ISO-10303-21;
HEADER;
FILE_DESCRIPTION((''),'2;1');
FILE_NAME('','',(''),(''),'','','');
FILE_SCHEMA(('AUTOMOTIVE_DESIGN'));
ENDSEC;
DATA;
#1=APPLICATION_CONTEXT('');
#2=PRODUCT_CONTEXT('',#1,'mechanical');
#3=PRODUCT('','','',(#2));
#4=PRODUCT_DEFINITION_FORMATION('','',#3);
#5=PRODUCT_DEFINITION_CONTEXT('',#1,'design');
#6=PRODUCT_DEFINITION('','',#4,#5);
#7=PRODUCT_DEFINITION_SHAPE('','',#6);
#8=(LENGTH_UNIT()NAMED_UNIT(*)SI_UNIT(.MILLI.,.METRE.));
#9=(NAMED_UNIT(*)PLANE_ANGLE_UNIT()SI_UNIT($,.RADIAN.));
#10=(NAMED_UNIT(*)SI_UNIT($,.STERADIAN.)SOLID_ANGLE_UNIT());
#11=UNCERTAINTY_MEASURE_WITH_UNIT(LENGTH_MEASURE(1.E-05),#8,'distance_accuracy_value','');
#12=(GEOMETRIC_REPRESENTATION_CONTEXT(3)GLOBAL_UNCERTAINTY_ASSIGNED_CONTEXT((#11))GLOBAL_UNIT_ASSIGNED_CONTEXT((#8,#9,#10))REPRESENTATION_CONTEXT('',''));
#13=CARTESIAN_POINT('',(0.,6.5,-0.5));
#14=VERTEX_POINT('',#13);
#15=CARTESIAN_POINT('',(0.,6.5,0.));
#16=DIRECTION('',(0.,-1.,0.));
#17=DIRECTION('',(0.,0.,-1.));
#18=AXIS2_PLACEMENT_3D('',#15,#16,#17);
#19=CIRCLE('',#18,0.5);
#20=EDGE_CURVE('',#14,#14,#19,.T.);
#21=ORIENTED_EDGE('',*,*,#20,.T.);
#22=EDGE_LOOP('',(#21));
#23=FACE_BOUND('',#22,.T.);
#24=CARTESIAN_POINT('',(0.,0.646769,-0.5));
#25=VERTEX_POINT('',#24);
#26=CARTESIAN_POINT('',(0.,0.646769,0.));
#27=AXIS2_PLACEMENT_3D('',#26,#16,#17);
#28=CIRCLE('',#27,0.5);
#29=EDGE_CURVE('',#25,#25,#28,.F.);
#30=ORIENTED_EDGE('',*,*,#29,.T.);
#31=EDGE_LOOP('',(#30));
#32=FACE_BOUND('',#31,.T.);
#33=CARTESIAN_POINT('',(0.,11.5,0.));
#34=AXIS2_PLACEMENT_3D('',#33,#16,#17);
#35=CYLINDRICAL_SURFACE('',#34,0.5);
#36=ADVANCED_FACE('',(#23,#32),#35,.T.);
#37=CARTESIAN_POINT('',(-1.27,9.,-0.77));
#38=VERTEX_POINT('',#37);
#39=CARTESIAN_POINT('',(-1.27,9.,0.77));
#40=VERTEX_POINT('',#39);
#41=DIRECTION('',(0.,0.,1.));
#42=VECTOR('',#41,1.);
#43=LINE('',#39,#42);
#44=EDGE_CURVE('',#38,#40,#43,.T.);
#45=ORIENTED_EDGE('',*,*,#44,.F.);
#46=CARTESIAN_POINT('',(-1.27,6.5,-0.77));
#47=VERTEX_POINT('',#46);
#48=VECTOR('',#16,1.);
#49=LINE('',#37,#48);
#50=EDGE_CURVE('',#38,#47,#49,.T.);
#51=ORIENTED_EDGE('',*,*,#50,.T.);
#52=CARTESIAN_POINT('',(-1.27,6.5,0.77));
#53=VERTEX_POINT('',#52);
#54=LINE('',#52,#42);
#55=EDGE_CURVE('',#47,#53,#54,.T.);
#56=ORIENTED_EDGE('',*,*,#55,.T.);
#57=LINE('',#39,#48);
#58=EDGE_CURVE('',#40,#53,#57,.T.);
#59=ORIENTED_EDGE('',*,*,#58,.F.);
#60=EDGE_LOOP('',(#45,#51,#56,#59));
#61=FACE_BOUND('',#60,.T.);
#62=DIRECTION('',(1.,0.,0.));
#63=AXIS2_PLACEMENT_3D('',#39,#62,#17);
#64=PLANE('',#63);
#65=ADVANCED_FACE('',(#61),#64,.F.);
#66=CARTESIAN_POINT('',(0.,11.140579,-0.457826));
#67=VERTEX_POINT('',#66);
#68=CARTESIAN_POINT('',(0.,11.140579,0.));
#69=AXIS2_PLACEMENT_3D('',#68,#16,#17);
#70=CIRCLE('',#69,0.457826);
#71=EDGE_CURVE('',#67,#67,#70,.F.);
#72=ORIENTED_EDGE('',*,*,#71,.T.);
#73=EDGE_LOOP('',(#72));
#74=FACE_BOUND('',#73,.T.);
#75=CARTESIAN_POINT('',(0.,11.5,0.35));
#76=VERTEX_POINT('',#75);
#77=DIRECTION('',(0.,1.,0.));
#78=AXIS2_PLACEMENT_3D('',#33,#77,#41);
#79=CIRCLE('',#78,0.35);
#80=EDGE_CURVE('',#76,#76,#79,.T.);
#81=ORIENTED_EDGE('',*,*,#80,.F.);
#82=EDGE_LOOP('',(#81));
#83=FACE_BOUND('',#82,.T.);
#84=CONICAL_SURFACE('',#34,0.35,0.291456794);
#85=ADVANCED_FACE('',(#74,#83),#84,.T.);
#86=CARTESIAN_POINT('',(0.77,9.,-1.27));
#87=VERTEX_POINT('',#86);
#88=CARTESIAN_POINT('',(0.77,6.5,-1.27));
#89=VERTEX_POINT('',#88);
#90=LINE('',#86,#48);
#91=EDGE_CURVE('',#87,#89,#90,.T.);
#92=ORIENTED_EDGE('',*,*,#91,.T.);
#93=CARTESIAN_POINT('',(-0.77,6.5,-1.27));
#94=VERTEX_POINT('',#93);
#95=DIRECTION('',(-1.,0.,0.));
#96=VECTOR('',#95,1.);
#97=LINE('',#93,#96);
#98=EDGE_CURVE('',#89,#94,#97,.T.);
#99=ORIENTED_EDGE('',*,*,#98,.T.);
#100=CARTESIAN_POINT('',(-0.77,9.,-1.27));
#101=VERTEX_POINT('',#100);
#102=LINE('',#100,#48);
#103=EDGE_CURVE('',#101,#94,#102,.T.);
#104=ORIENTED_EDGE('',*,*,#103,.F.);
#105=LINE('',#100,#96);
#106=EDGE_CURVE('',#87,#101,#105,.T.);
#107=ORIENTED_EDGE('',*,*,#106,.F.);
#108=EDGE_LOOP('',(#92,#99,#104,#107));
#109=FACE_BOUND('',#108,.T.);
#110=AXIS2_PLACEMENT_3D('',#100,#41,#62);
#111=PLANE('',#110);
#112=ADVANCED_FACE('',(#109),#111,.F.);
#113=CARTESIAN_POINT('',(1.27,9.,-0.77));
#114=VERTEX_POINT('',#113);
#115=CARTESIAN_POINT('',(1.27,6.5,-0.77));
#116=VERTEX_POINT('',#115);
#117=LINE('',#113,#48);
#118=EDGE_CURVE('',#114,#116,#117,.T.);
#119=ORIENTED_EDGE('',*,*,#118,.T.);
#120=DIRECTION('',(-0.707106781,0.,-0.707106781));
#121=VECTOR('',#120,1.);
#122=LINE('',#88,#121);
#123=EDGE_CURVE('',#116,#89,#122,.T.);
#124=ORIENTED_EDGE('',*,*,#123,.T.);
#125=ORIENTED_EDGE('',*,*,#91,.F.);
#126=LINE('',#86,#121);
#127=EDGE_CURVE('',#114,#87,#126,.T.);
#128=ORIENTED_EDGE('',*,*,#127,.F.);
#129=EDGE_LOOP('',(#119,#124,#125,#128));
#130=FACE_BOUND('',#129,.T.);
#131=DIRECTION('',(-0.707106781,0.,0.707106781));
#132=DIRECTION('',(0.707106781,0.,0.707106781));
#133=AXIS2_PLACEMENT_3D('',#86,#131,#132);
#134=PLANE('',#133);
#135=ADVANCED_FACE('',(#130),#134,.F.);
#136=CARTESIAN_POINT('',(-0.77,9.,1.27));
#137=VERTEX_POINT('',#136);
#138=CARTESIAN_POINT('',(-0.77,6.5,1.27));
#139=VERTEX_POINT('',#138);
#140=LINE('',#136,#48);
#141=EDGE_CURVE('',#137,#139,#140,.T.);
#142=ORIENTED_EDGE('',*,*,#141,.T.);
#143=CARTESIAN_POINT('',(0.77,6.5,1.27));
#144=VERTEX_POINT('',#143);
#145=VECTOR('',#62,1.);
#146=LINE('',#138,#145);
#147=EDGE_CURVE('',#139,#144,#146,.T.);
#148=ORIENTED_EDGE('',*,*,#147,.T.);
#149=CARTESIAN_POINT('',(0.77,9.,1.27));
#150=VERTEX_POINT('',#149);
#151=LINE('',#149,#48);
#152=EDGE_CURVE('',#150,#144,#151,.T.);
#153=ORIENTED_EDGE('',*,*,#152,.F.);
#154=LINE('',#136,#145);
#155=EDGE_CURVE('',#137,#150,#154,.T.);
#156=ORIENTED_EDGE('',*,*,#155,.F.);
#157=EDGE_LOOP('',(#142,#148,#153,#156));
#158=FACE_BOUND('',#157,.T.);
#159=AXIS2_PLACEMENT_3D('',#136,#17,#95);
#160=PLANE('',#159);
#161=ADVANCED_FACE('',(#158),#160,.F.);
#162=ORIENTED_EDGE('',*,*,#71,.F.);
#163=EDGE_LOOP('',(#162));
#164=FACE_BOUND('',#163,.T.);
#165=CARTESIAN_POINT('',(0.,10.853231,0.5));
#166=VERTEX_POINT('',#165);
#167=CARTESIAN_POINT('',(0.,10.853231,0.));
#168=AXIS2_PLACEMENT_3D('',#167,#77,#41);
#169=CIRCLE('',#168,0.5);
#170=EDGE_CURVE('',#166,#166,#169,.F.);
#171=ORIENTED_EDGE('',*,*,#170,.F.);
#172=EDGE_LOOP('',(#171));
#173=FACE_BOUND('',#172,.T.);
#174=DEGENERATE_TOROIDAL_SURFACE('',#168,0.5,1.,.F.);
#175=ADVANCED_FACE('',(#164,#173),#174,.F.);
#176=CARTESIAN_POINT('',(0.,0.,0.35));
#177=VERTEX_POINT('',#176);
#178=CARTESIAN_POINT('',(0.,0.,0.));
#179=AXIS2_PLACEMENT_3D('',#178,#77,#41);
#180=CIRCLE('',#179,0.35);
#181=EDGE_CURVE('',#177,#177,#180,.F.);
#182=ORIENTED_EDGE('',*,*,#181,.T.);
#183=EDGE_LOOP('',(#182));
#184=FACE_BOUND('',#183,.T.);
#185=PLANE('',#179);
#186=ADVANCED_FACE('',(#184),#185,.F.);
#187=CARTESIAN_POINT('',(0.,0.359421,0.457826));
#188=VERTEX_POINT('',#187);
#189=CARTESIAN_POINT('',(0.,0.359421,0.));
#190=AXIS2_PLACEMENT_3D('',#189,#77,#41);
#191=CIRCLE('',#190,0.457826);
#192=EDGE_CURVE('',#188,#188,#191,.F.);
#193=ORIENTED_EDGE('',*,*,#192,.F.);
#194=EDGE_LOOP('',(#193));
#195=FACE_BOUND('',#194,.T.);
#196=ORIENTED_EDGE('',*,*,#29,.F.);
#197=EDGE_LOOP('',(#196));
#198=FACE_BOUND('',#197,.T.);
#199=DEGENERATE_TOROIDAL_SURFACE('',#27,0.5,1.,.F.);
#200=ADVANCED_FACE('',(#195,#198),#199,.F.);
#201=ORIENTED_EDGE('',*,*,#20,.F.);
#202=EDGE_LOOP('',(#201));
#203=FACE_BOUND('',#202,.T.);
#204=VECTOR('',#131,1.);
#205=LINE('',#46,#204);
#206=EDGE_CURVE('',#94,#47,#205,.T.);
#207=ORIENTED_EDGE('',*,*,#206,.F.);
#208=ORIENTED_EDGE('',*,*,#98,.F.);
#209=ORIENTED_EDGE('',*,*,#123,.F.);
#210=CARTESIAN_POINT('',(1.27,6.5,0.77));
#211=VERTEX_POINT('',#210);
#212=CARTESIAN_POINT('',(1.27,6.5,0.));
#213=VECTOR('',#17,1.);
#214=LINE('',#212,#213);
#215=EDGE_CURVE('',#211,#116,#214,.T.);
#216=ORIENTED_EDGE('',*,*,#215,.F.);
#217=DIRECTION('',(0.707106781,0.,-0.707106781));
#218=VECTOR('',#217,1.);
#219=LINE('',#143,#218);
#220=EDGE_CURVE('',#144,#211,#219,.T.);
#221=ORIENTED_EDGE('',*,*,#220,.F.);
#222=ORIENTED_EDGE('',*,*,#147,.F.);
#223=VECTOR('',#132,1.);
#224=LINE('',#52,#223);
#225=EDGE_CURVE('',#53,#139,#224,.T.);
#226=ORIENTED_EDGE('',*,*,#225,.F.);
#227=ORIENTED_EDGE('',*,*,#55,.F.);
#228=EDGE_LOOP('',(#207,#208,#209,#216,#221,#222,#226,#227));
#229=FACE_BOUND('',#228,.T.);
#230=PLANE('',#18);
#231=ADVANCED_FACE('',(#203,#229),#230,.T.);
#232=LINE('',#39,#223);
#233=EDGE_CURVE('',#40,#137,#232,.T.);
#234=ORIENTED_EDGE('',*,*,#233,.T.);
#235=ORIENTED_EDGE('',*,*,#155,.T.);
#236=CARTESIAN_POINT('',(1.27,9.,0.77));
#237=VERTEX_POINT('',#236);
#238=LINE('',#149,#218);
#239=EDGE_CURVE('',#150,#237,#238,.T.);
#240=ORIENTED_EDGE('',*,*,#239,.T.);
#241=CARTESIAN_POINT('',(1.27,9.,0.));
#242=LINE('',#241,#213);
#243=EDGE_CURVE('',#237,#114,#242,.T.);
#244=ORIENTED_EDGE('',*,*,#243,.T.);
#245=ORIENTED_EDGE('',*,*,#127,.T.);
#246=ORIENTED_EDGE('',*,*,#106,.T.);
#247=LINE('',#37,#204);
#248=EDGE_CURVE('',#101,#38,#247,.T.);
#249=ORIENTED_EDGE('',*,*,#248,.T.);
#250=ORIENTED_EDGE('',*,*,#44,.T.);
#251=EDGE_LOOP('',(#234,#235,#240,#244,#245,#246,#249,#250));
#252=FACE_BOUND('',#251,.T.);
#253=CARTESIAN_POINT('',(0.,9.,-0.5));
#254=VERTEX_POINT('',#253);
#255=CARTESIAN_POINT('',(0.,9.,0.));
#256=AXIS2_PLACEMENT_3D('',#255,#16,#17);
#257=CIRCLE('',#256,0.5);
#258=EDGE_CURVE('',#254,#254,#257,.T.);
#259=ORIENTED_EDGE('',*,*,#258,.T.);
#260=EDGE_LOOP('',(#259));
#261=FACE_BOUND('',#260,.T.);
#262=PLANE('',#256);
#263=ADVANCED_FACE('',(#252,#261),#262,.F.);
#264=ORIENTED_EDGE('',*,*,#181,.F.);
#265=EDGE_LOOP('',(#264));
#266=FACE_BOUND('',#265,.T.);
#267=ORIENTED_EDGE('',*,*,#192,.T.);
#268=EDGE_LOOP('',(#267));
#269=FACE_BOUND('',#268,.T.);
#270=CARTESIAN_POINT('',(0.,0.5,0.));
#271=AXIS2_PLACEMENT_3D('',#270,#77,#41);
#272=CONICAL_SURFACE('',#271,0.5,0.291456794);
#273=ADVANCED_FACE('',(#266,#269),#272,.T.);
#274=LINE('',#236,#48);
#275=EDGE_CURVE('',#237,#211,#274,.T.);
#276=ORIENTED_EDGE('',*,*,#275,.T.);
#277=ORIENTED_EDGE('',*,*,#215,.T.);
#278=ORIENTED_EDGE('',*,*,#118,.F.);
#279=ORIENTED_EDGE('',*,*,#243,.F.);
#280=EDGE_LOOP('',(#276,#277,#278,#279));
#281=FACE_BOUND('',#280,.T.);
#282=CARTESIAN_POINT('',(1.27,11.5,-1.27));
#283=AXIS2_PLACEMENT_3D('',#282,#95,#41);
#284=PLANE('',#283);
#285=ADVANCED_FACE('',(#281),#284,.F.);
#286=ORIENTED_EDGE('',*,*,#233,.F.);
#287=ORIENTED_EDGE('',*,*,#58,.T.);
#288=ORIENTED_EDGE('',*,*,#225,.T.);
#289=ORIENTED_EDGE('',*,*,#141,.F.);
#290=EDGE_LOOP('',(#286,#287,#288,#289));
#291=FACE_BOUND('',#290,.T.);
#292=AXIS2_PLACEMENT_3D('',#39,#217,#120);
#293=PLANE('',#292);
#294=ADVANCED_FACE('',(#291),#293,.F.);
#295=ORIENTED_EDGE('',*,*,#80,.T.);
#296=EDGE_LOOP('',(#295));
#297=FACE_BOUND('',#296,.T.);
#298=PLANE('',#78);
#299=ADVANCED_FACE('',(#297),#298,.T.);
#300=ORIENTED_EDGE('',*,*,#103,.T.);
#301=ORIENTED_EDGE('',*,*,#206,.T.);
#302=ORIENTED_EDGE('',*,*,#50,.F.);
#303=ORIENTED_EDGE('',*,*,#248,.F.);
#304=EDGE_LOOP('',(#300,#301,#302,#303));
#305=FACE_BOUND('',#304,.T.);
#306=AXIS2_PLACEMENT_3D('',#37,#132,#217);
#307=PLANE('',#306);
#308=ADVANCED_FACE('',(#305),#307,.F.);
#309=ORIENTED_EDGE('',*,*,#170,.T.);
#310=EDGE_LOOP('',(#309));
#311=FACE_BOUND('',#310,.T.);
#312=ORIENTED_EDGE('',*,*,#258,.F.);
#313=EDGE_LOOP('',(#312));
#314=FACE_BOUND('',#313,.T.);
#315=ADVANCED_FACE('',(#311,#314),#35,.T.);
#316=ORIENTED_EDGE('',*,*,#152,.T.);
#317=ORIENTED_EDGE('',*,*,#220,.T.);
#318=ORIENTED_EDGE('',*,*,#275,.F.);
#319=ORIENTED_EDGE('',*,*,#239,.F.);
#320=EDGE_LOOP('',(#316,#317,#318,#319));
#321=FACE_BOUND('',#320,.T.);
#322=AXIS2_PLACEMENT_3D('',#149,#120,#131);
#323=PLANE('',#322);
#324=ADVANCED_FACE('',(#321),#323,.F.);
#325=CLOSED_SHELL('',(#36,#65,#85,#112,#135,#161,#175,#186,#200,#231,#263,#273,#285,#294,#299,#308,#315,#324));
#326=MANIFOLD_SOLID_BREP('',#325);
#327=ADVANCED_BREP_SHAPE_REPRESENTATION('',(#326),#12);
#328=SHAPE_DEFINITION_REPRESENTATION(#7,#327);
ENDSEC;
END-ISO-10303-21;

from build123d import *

# Parameters (mm, degrees)
SKETCH1_R               = 0.5
BOSS_EXTRUDE1_DEPTH     = 11.5
BOSS_EXTRUDE1_2_DEPTH   = 11.5
BOSS_EXTRUDE1_3_DEPTH   = 11.5
BOSS_EXTRUDE1_4_DEPTH   = 11.5
BOSS_EXTRUDE1_5_DEPTH   = 11.5
BOSS_EXTRUDE1_6_DEPTH   = 11.5
BOSS_EXTRUDE1_7_DEPTH   = 11.5
BOSS_EXTRUDE1_8_DEPTH   = 11.5
BOSS_EXTRUDE1_9_DEPTH   = 11.5
BOSS_EXTRUDE1_10_DEPTH  = 11.5
BOSS_EXTRUDE1_11_DEPTH  = 11.5
BOSS_EXTRUDE1_12_DEPTH  = 11.5
BOSS_EXTRUDE1_13_DEPTH  = 11.5
BOSS_EXTRUDE1_14_DEPTH  = 11.5
BOSS_EXTRUDE1_15_DEPTH  = 11.5
BOSS_EXTRUDE1_16_DEPTH  = 11.5
BOSS_EXTRUDE2_DEPTH     = 2.5
CHAMFER1_SIZE           = 0.5
CHAMFER1_SIZE2          = 0.15
CHAMFER1_PART_2_SIZE    = 0.5
CHAMFER1_PART_2_SIZE2   = 0.15
CHAMFER1_PART_3_SIZE    = 0.5
CHAMFER1_PART_3_SIZE2   = 0.15
CHAMFER1_PART_4_SIZE    = 0.5
CHAMFER1_PART_4_SIZE2   = 0.15
CHAMFER1_PART_5_SIZE    = 0.5
CHAMFER1_PART_5_SIZE2   = 0.15
CHAMFER1_PART_6_SIZE    = 0.5
CHAMFER1_PART_6_SIZE2   = 0.15
CHAMFER1_PART_7_SIZE    = 0.5
CHAMFER1_PART_7_SIZE2   = 0.15
CHAMFER1_PART_8_SIZE    = 0.5
CHAMFER1_PART_8_SIZE2   = 0.15
CHAMFER1_PART_9_SIZE    = 0.5
CHAMFER1_PART_9_SIZE2   = 0.15
CHAMFER1_PART_10_SIZE   = 0.5
CHAMFER1_PART_10_SIZE2  = 0.15
CHAMFER1_PART_11_SIZE   = 0.5
CHAMFER1_PART_11_SIZE2  = 0.15
CHAMFER1_PART_12_SIZE   = 0.5
CHAMFER1_PART_12_SIZE2  = 0.15
CHAMFER1_PART_13_SIZE   = 0.5
CHAMFER1_PART_13_SIZE2  = 0.15
CHAMFER1_PART_14_SIZE   = 0.5
CHAMFER1_PART_14_SIZE2  = 0.15
CHAMFER1_PART_15_SIZE   = 0.5
CHAMFER1_PART_15_SIZE2  = 0.15
CHAMFER1_PART_16_SIZE   = 0.5
CHAMFER1_PART_16_SIZE2  = 0.15
FILLET1_R               = 1
CHAMFER2_SIZE           = 0.15
CHAMFER2_SIZE2          = 0.5
CHAMFER2_PART_2_SIZE    = 0.15
CHAMFER2_PART_2_SIZE2   = 0.5
CHAMFER2_PART_3_SIZE    = 0.15
CHAMFER2_PART_3_SIZE2   = 0.5
CHAMFER2_PART_4_SIZE    = 0.15
CHAMFER2_PART_4_SIZE2   = 0.5
CHAMFER2_PART_5_SIZE    = 0.15
CHAMFER2_PART_5_SIZE2   = 0.5
CHAMFER2_PART_6_SIZE    = 0.15
CHAMFER2_PART_6_SIZE2   = 0.5
CHAMFER2_PART_7_SIZE    = 0.15
CHAMFER2_PART_7_SIZE2   = 0.5
CHAMFER2_PART_8_SIZE    = 0.15
CHAMFER2_PART_8_SIZE2   = 0.5
CHAMFER2_PART_9_SIZE    = 0.15
CHAMFER2_PART_9_SIZE2   = 0.5
CHAMFER2_PART_10_SIZE   = 0.15
CHAMFER2_PART_10_SIZE2  = 0.5
CHAMFER2_PART_11_SIZE   = 0.15
CHAMFER2_PART_11_SIZE2  = 0.5
CHAMFER2_PART_12_SIZE   = 0.15
CHAMFER2_PART_12_SIZE2  = 0.5
CHAMFER2_PART_13_SIZE   = 0.15
CHAMFER2_PART_13_SIZE2  = 0.5
CHAMFER2_PART_14_SIZE   = 0.15
CHAMFER2_PART_14_SIZE2  = 0.5
CHAMFER2_PART_15_SIZE   = 0.15
CHAMFER2_PART_15_SIZE2  = 0.5
CHAMFER2_PART_16_SIZE   = 0.15
CHAMFER2_PART_16_SIZE2  = 0.5
FILLET2_R               = 1
SKETCH3_W               = 38.1
SKETCH3_H               = 11.5
CUT_EXTRUDE1_DEPTH      = 1
CUT_EXTRUDE1_DEPTH_BACK = 3.54


with BuildPart() as part:
    # Sketch1 → Boss-Extrude1 (new body)
    with BuildSketch(Plane(origin=(0, 0, 0), x_dir=(1, 0, 0), z_dir=(0, 1, 0))):
        Circle(SKETCH1_R)
    extrude(amount=BOSS_EXTRUDE1_DEPTH)



with BuildPart() as body_2:
    # Sketch1 → Boss-Extrude1 2 (new body)
    with BuildSketch(Plane(origin=(0, 0, 0), x_dir=(1, 0, 0), z_dir=(0, 1, 0))):
        with Locations((2.54, 0)):
            Circle(SKETCH1_R)
    extrude(amount=BOSS_EXTRUDE1_2_DEPTH)


with BuildPart() as body_3:
    # Sketch1 → Boss-Extrude1 3 (new body)
    with BuildSketch(Plane(origin=(0, 0, 0), x_dir=(1, 0, 0), z_dir=(0, 1, 0))):
        with Locations((5.08, 0)):
            Circle(SKETCH1_R)
    extrude(amount=BOSS_EXTRUDE1_3_DEPTH)


with BuildPart() as body_4:
    # Sketch1 → Boss-Extrude1 4 (new body)
    with BuildSketch(Plane(origin=(0, 0, 0), x_dir=(1, 0, 0), z_dir=(0, 1, 0))):
        with Locations((7.62, 0)):
            Circle(SKETCH1_R)
    extrude(amount=BOSS_EXTRUDE1_4_DEPTH)


with BuildPart() as body_5:
    # Sketch1 → Boss-Extrude1 5 (new body)
    with BuildSketch(Plane(origin=(0, 0, 0), x_dir=(1, 0, 0), z_dir=(0, 1, 0))):
        with Locations((10.16, 0)):
            Circle(SKETCH1_R)
    extrude(amount=BOSS_EXTRUDE1_5_DEPTH)


with BuildPart() as body_6:
    # Sketch1 → Boss-Extrude1 6 (new body)
    with BuildSketch(Plane(origin=(0, 0, 0), x_dir=(1, 0, 0), z_dir=(0, 1, 0))):
        with Locations((12.7, 0)):
            Circle(SKETCH1_R)
    extrude(amount=BOSS_EXTRUDE1_6_DEPTH)


with BuildPart() as body_7:
    # Sketch1 → Boss-Extrude1 7 (new body)
    with BuildSketch(Plane(origin=(0, 0, 0), x_dir=(1, 0, 0), z_dir=(0, 1, 0))):
        with Locations((15.24, 0)):
            Circle(SKETCH1_R)
    extrude(amount=BOSS_EXTRUDE1_7_DEPTH)


with BuildPart() as body_8:
    # Sketch1 → Boss-Extrude1 8 (new body)
    with BuildSketch(Plane(origin=(0, 0, 0), x_dir=(1, 0, 0), z_dir=(0, 1, 0))):
        with Locations((17.78, 0)):
            Circle(SKETCH1_R)
    extrude(amount=BOSS_EXTRUDE1_8_DEPTH)


with BuildPart() as body_9:
    # Sketch1 → Boss-Extrude1 9 (new body)
    with BuildSketch(Plane(origin=(0, 0, 0), x_dir=(1, 0, 0), z_dir=(0, 1, 0))):
        with Locations((20.32, 0)):
            Circle(SKETCH1_R)
    extrude(amount=BOSS_EXTRUDE1_9_DEPTH)


with BuildPart() as body_10:
    # Sketch1 → Boss-Extrude1 10 (new body)
    with BuildSketch(Plane(origin=(0, 0, 0), x_dir=(1, 0, 0), z_dir=(0, 1, 0))):
        with Locations((22.86, 0)):
            Circle(SKETCH1_R)
    extrude(amount=BOSS_EXTRUDE1_10_DEPTH)


with BuildPart() as body_11:
    # Sketch1 → Boss-Extrude1 11 (new body)
    with BuildSketch(Plane(origin=(0, 0, 0), x_dir=(1, 0, 0), z_dir=(0, 1, 0))):
        with Locations((25.4, 0)):
            Circle(SKETCH1_R)
    extrude(amount=BOSS_EXTRUDE1_11_DEPTH)


with BuildPart() as body_12:
    # Sketch1 → Boss-Extrude1 12 (new body)
    with BuildSketch(Plane(origin=(0, 0, 0), x_dir=(1, 0, 0), z_dir=(0, 1, 0))):
        with Locations((27.94, 0)):
            Circle(SKETCH1_R)
    extrude(amount=BOSS_EXTRUDE1_12_DEPTH)


with BuildPart() as body_13:
    # Sketch1 → Boss-Extrude1 13 (new body)
    with BuildSketch(Plane(origin=(0, 0, 0), x_dir=(1, 0, 0), z_dir=(0, 1, 0))):
        with Locations((30.48, 0)):
            Circle(SKETCH1_R)
    extrude(amount=BOSS_EXTRUDE1_13_DEPTH)


with BuildPart() as body_14:
    # Sketch1 → Boss-Extrude1 14 (new body)
    with BuildSketch(Plane(origin=(0, 0, 0), x_dir=(1, 0, 0), z_dir=(0, 1, 0))):
        with Locations((33.02, 0)):
            Circle(SKETCH1_R)
    extrude(amount=BOSS_EXTRUDE1_14_DEPTH)


with BuildPart() as body_15:
    # Sketch1 → Boss-Extrude1 15 (new body)
    with BuildSketch(Plane(origin=(0, 0, 0), x_dir=(1, 0, 0), z_dir=(0, 1, 0))):
        with Locations((35.56, 0)):
            Circle(SKETCH1_R)
    extrude(amount=BOSS_EXTRUDE1_15_DEPTH)


with BuildPart() as body_16:
    # Sketch1 → Boss-Extrude1 16 (new body)
    with BuildSketch(Plane(origin=(0, 0, 0), x_dir=(1, 0, 0), z_dir=(0, 1, 0))):
        with Locations((38.1, 0)):
            Circle(SKETCH1_R)
    extrude(amount=BOSS_EXTRUDE1_16_DEPTH)


with BuildPart() as part_1:
    add(part.part)

    add(body_2.part)  # Boss-Extrude2 merges body 2

    add(body_3.part)  # Boss-Extrude2 merges body 3

    add(body_4.part)  # Boss-Extrude2 merges body 4

    add(body_5.part)  # Boss-Extrude2 merges body 5

    add(body_6.part)  # Boss-Extrude2 merges body 6

    add(body_7.part)  # Boss-Extrude2 merges body 7

    add(body_8.part)  # Boss-Extrude2 merges body 8

    add(body_9.part)  # Boss-Extrude2 merges body 9

    add(body_10.part)  # Boss-Extrude2 merges body 10

    add(body_11.part)  # Boss-Extrude2 merges body 11

    add(body_12.part)  # Boss-Extrude2 merges body 12

    add(body_13.part)  # Boss-Extrude2 merges body 13

    add(body_14.part)  # Boss-Extrude2 merges body 14

    add(body_15.part)  # Boss-Extrude2 merges body 15

    add(body_16.part)  # Boss-Extrude2 merges body 16
    # Sketch2 → Boss-Extrude2 (add)
    with BuildSketch(Plane(origin=(0, 6.5, 0), x_dir=(1, 0, 0), z_dir=(0, 1, 0))):
        Polygon((-1.27, 0.77), (-0.77, 1.27), (0.77, 1.27), (1.27, 0.77), (1.77, 1.27), (3.31, 1.27), (3.81, 0.77), (4.31, 1.27), (5.85, 1.27), (6.35, 0.77), (6.85, 1.27), (8.39, 1.27), (8.89, 0.77), (9.39, 1.27), (10.93, 1.27), (11.43, 0.77), (11.93, 1.27), (13.47, 1.27), (13.97, 0.77), (14.47, 1.27), (16.01, 1.27), (16.51, 0.77), (17.01, 1.27), (18.55, 1.27), (19.05, 0.77), (19.55, 1.27), (21.09, 1.27), (21.59, 0.77), (22.09, 1.27), (23.63, 1.27), (24.13, 0.77), (24.63, 1.27), (26.17, 1.27), (26.67, 0.77), (27.17, 1.27), (28.71, 1.27), (29.21, 0.77), (29.71, 1.27), (31.25, 1.27), (31.75, 0.77), (32.25, 1.27), (33.79, 1.27), (34.29, 0.77), (34.79, 1.27), (36.33, 1.27), (36.83, 0.77), (37.33, 1.27), (38.87, 1.27), (39.37, 0.77), (39.37, -0.77), (38.87, -1.27), (37.33, -1.27), (36.83, -0.77), (36.33, -1.27), (34.79, -1.27), (34.29, -0.77), (33.79, -1.27), (32.25, -1.27), (31.75, -0.77), (31.25, -1.27), (29.71, -1.27), (29.21, -0.77), (28.71, -1.27), (27.17, -1.27), (26.67, -0.77), (26.17, -1.27), (24.63, -1.27), (24.13, -0.77), (23.63, -1.27), (22.09, -1.27), (21.59, -0.77), (21.09, -1.27), (19.55, -1.27), (19.05, -0.77), (18.55, -1.27), (17.01, -1.27), (16.51, -0.77), (16.01, -1.27), (14.47, -1.27), (13.97, -0.77), (13.47, -1.27), (11.93, -1.27), (11.43, -0.77), (10.93, -1.27), (9.39, -1.27), (8.89, -0.77), (8.39, -1.27), (6.85, -1.27), (6.35, -0.77), (5.85, -1.27), (4.31, -1.27), (3.81, -0.77), (3.31, -1.27), (1.77, -1.27), (1.27, -0.77), (0.77, -1.27), (-0.77, -1.27), (-1.27, -0.77), align=None)
    extrude(amount=BOSS_EXTRUDE2_DEPTH)

    # Chamfer1
    chamfer1_edges = [part_1.edges().sort_by_distance(p)[0] for p in [
        (2.04, 11.5, 0),
    ]]
    chamfer1_side = [part_1.faces().sort_by_distance(p)[0] for p in [
        (2.04, 10.25, 0),
    ]]
    chamfer(chamfer1_edges, length=CHAMFER1_SIZE, length2=CHAMFER1_SIZE2, reference=chamfer1_side[0])

    # Chamfer1 part 2
    chamfer1_part_2_edges = [part_1.edges().sort_by_distance(p)[0] for p in [
        (4.58, 11.5, 0),
    ]]
    chamfer1_part_2_side = [part_1.faces().sort_by_distance(p)[0] for p in [
        (4.58, 10.25, 0),
    ]]
    chamfer(chamfer1_part_2_edges, length=CHAMFER1_PART_2_SIZE, length2=CHAMFER1_PART_2_SIZE2, reference=chamfer1_part_2_side[0])

    # Chamfer1 part 3
    chamfer1_part_3_edges = [part_1.edges().sort_by_distance(p)[0] for p in [
        (7.12, 11.5, 0),
    ]]
    chamfer1_part_3_side = [part_1.faces().sort_by_distance(p)[0] for p in [
        (7.12, 10.25, 0),
    ]]
    chamfer(chamfer1_part_3_edges, length=CHAMFER1_PART_3_SIZE, length2=CHAMFER1_PART_3_SIZE2, reference=chamfer1_part_3_side[0])

    # Chamfer1 part 4
    chamfer1_part_4_edges = [part_1.edges().sort_by_distance(p)[0] for p in [
        (9.66, 11.5, 0),
    ]]
    chamfer1_part_4_side = [part_1.faces().sort_by_distance(p)[0] for p in [
        (9.66, 10.25, 0),
    ]]
    chamfer(chamfer1_part_4_edges, length=CHAMFER1_PART_4_SIZE, length2=CHAMFER1_PART_4_SIZE2, reference=chamfer1_part_4_side[0])

    # Chamfer1 part 5
    chamfer1_part_5_edges = [part_1.edges().sort_by_distance(p)[0] for p in [
        (12.2, 11.5, 0),
    ]]
    chamfer1_part_5_side = [part_1.faces().sort_by_distance(p)[0] for p in [
        (12.2, 10.25, 0),
    ]]
    chamfer(chamfer1_part_5_edges, length=CHAMFER1_PART_5_SIZE, length2=CHAMFER1_PART_5_SIZE2, reference=chamfer1_part_5_side[0])

    # Chamfer1 part 6
    chamfer1_part_6_edges = [part_1.edges().sort_by_distance(p)[0] for p in [
        (14.74, 11.5, 0),
    ]]
    chamfer1_part_6_side = [part_1.faces().sort_by_distance(p)[0] for p in [
        (14.74, 10.25, 0),
    ]]
    chamfer(chamfer1_part_6_edges, length=CHAMFER1_PART_6_SIZE, length2=CHAMFER1_PART_6_SIZE2, reference=chamfer1_part_6_side[0])

    # Chamfer1 part 7
    chamfer1_part_7_edges = [part_1.edges().sort_by_distance(p)[0] for p in [
        (17.28, 11.5, 0),
    ]]
    chamfer1_part_7_side = [part_1.faces().sort_by_distance(p)[0] for p in [
        (17.28, 10.25, 0),
    ]]
    chamfer(chamfer1_part_7_edges, length=CHAMFER1_PART_7_SIZE, length2=CHAMFER1_PART_7_SIZE2, reference=chamfer1_part_7_side[0])

    # Chamfer1 part 8
    chamfer1_part_8_edges = [part_1.edges().sort_by_distance(p)[0] for p in [
        (19.82, 11.5, 0),
    ]]
    chamfer1_part_8_side = [part_1.faces().sort_by_distance(p)[0] for p in [
        (19.82, 10.25, 0),
    ]]
    chamfer(chamfer1_part_8_edges, length=CHAMFER1_PART_8_SIZE, length2=CHAMFER1_PART_8_SIZE2, reference=chamfer1_part_8_side[0])

    # Chamfer1 part 9
    chamfer1_part_9_edges = [part_1.edges().sort_by_distance(p)[0] for p in [
        (22.36, 11.5, 0),
    ]]
    chamfer1_part_9_side = [part_1.faces().sort_by_distance(p)[0] for p in [
        (22.36, 10.25, 0),
    ]]
    chamfer(chamfer1_part_9_edges, length=CHAMFER1_PART_9_SIZE, length2=CHAMFER1_PART_9_SIZE2, reference=chamfer1_part_9_side[0])

    # Chamfer1 part 10
    chamfer1_part_10_edges = [part_1.edges().sort_by_distance(p)[0] for p in [
        (24.9, 11.5, 0),
    ]]
    chamfer1_part_10_side = [part_1.faces().sort_by_distance(p)[0] for p in [
        (24.9, 10.25, 0),
    ]]
    chamfer(chamfer1_part_10_edges, length=CHAMFER1_PART_10_SIZE, length2=CHAMFER1_PART_10_SIZE2, reference=chamfer1_part_10_side[0])

    # Chamfer1 part 11
    chamfer1_part_11_edges = [part_1.edges().sort_by_distance(p)[0] for p in [
        (27.44, 11.5, 0),
    ]]
    chamfer1_part_11_side = [part_1.faces().sort_by_distance(p)[0] for p in [
        (27.44, 10.25, 0),
    ]]
    chamfer(chamfer1_part_11_edges, length=CHAMFER1_PART_11_SIZE, length2=CHAMFER1_PART_11_SIZE2, reference=chamfer1_part_11_side[0])

    # Chamfer1 part 12
    chamfer1_part_12_edges = [part_1.edges().sort_by_distance(p)[0] for p in [
        (29.98, 11.5, 0),
    ]]
    chamfer1_part_12_side = [part_1.faces().sort_by_distance(p)[0] for p in [
        (29.98, 10.25, 0),
    ]]
    chamfer(chamfer1_part_12_edges, length=CHAMFER1_PART_12_SIZE, length2=CHAMFER1_PART_12_SIZE2, reference=chamfer1_part_12_side[0])

    # Chamfer1 part 13
    chamfer1_part_13_edges = [part_1.edges().sort_by_distance(p)[0] for p in [
        (32.52, 11.5, 0),
    ]]
    chamfer1_part_13_side = [part_1.faces().sort_by_distance(p)[0] for p in [
        (32.52, 10.25, 0),
    ]]
    chamfer(chamfer1_part_13_edges, length=CHAMFER1_PART_13_SIZE, length2=CHAMFER1_PART_13_SIZE2, reference=chamfer1_part_13_side[0])

    # Chamfer1 part 14
    chamfer1_part_14_edges = [part_1.edges().sort_by_distance(p)[0] for p in [
        (35.06, 11.5, 0),
    ]]
    chamfer1_part_14_side = [part_1.faces().sort_by_distance(p)[0] for p in [
        (35.06, 10.25, 0),
    ]]
    chamfer(chamfer1_part_14_edges, length=CHAMFER1_PART_14_SIZE, length2=CHAMFER1_PART_14_SIZE2, reference=chamfer1_part_14_side[0])

    # Chamfer1 part 15
    chamfer1_part_15_edges = [part_1.edges().sort_by_distance(p)[0] for p in [
        (37.6, 11.5, 0),
    ]]
    chamfer1_part_15_side = [part_1.faces().sort_by_distance(p)[0] for p in [
        (37.6, 10.25, 0),
    ]]
    chamfer(chamfer1_part_15_edges, length=CHAMFER1_PART_15_SIZE, length2=CHAMFER1_PART_15_SIZE2, reference=chamfer1_part_15_side[0])

    # Chamfer1 part 16
    chamfer1_part_16_edges = [part_1.edges().sort_by_distance(p)[0] for p in [
        (-0.5, 11.5, 0),
    ]]
    chamfer1_part_16_side = [part_1.faces().sort_by_distance(p)[0] for p in [
        (-0.5, 10.25, 0),
    ]]
    chamfer(chamfer1_part_16_edges, length=CHAMFER1_PART_16_SIZE, length2=CHAMFER1_PART_16_SIZE2, reference=chamfer1_part_16_side[0])

    # Fillet1
    fillet1_edges = [part_1.edges().sort_by_distance(p)[0] for p in [
        (37.6, 11, 0),
        (35.06, 11, 0),
        (32.52, 11, 0),
        (29.98, 11, 0),
        (27.44, 11, 0),
        (24.9, 11, 0),
        (22.36, 11, 0),
        (19.82, 11, 0),
        (17.28, 11, 0),
        (14.74, 11, 0),
        (12.2, 11, 0),
        (9.66, 11, 0),
        (7.12, 11, 0),
        (4.58, 11, 0),
        (2.04, 11, 0),
        (-0.5, 11, 0),
    ]]
    fillet(fillet1_edges, radius=FILLET1_R)

    # Chamfer2
    chamfer2_edges = [part_1.edges().sort_by_distance(p)[0] for p in [
        (-0.5, 0, 0),
    ]]
    chamfer2_side = [part_1.faces().sort_by_distance(p)[0] for p in [
        (0, 0, 0),
    ]]
    chamfer(chamfer2_edges, length=CHAMFER2_SIZE, length2=CHAMFER2_SIZE2, reference=chamfer2_side[0])

    # Chamfer2 part 2
    chamfer2_part_2_edges = [part_1.edges().sort_by_distance(p)[0] for p in [
        (2.04, 0, 0),
    ]]
    chamfer2_part_2_side = [part_1.faces().sort_by_distance(p)[0] for p in [
        (2.54, 0, 0),
    ]]
    chamfer(chamfer2_part_2_edges, length=CHAMFER2_PART_2_SIZE, length2=CHAMFER2_PART_2_SIZE2, reference=chamfer2_part_2_side[0])

    # Chamfer2 part 3
    chamfer2_part_3_edges = [part_1.edges().sort_by_distance(p)[0] for p in [
        (4.58, 0, 0),
    ]]
    chamfer2_part_3_side = [part_1.faces().sort_by_distance(p)[0] for p in [
        (5.08, 0, 0),
    ]]
    chamfer(chamfer2_part_3_edges, length=CHAMFER2_PART_3_SIZE, length2=CHAMFER2_PART_3_SIZE2, reference=chamfer2_part_3_side[0])

    # Chamfer2 part 4
    chamfer2_part_4_edges = [part_1.edges().sort_by_distance(p)[0] for p in [
        (7.12, 0, 0),
    ]]
    chamfer2_part_4_side = [part_1.faces().sort_by_distance(p)[0] for p in [
        (7.62, 0, 0),
    ]]
    chamfer(chamfer2_part_4_edges, length=CHAMFER2_PART_4_SIZE, length2=CHAMFER2_PART_4_SIZE2, reference=chamfer2_part_4_side[0])

    # Chamfer2 part 5
    chamfer2_part_5_edges = [part_1.edges().sort_by_distance(p)[0] for p in [
        (9.66, 0, 0),
    ]]
    chamfer2_part_5_side = [part_1.faces().sort_by_distance(p)[0] for p in [
        (10.16, 0, 0),
    ]]
    chamfer(chamfer2_part_5_edges, length=CHAMFER2_PART_5_SIZE, length2=CHAMFER2_PART_5_SIZE2, reference=chamfer2_part_5_side[0])

    # Chamfer2 part 6
    chamfer2_part_6_edges = [part_1.edges().sort_by_distance(p)[0] for p in [
        (12.2, 0, 0),
    ]]
    chamfer2_part_6_side = [part_1.faces().sort_by_distance(p)[0] for p in [
        (12.7, 0, 0),
    ]]
    chamfer(chamfer2_part_6_edges, length=CHAMFER2_PART_6_SIZE, length2=CHAMFER2_PART_6_SIZE2, reference=chamfer2_part_6_side[0])

    # Chamfer2 part 7
    chamfer2_part_7_edges = [part_1.edges().sort_by_distance(p)[0] for p in [
        (14.74, 0, 0),
    ]]
    chamfer2_part_7_side = [part_1.faces().sort_by_distance(p)[0] for p in [
        (15.24, 0, 0),
    ]]
    chamfer(chamfer2_part_7_edges, length=CHAMFER2_PART_7_SIZE, length2=CHAMFER2_PART_7_SIZE2, reference=chamfer2_part_7_side[0])

    # Chamfer2 part 8
    chamfer2_part_8_edges = [part_1.edges().sort_by_distance(p)[0] for p in [
        (17.28, 0, 0),
    ]]
    chamfer2_part_8_side = [part_1.faces().sort_by_distance(p)[0] for p in [
        (17.78, 0, 0),
    ]]
    chamfer(chamfer2_part_8_edges, length=CHAMFER2_PART_8_SIZE, length2=CHAMFER2_PART_8_SIZE2, reference=chamfer2_part_8_side[0])

    # Chamfer2 part 9
    chamfer2_part_9_edges = [part_1.edges().sort_by_distance(p)[0] for p in [
        (19.82, 0, 0),
    ]]
    chamfer2_part_9_side = [part_1.faces().sort_by_distance(p)[0] for p in [
        (20.32, 0, 0),
    ]]
    chamfer(chamfer2_part_9_edges, length=CHAMFER2_PART_9_SIZE, length2=CHAMFER2_PART_9_SIZE2, reference=chamfer2_part_9_side[0])

    # Chamfer2 part 10
    chamfer2_part_10_edges = [part_1.edges().sort_by_distance(p)[0] for p in [
        (22.36, 0, 0),
    ]]
    chamfer2_part_10_side = [part_1.faces().sort_by_distance(p)[0] for p in [
        (22.86, 0, 0),
    ]]
    chamfer(chamfer2_part_10_edges, length=CHAMFER2_PART_10_SIZE, length2=CHAMFER2_PART_10_SIZE2, reference=chamfer2_part_10_side[0])

    # Chamfer2 part 11
    chamfer2_part_11_edges = [part_1.edges().sort_by_distance(p)[0] for p in [
        (24.9, 0, 0),
    ]]
    chamfer2_part_11_side = [part_1.faces().sort_by_distance(p)[0] for p in [
        (25.4, 0, 0),
    ]]
    chamfer(chamfer2_part_11_edges, length=CHAMFER2_PART_11_SIZE, length2=CHAMFER2_PART_11_SIZE2, reference=chamfer2_part_11_side[0])

    # Chamfer2 part 12
    chamfer2_part_12_edges = [part_1.edges().sort_by_distance(p)[0] for p in [
        (27.44, 0, 0),
    ]]
    chamfer2_part_12_side = [part_1.faces().sort_by_distance(p)[0] for p in [
        (27.94, 0, 0),
    ]]
    chamfer(chamfer2_part_12_edges, length=CHAMFER2_PART_12_SIZE, length2=CHAMFER2_PART_12_SIZE2, reference=chamfer2_part_12_side[0])

    # Chamfer2 part 13
    chamfer2_part_13_edges = [part_1.edges().sort_by_distance(p)[0] for p in [
        (29.98, 0, 0),
    ]]
    chamfer2_part_13_side = [part_1.faces().sort_by_distance(p)[0] for p in [
        (30.48, 0, 0),
    ]]
    chamfer(chamfer2_part_13_edges, length=CHAMFER2_PART_13_SIZE, length2=CHAMFER2_PART_13_SIZE2, reference=chamfer2_part_13_side[0])

    # Chamfer2 part 14
    chamfer2_part_14_edges = [part_1.edges().sort_by_distance(p)[0] for p in [
        (32.52, 0, 0),
    ]]
    chamfer2_part_14_side = [part_1.faces().sort_by_distance(p)[0] for p in [
        (33.02, 0, 0),
    ]]
    chamfer(chamfer2_part_14_edges, length=CHAMFER2_PART_14_SIZE, length2=CHAMFER2_PART_14_SIZE2, reference=chamfer2_part_14_side[0])

    # Chamfer2 part 15
    chamfer2_part_15_edges = [part_1.edges().sort_by_distance(p)[0] for p in [
        (35.06, 0, 0),
    ]]
    chamfer2_part_15_side = [part_1.faces().sort_by_distance(p)[0] for p in [
        (35.56, 0, 0),
    ]]
    chamfer(chamfer2_part_15_edges, length=CHAMFER2_PART_15_SIZE, length2=CHAMFER2_PART_15_SIZE2, reference=chamfer2_part_15_side[0])

    # Chamfer2 part 16
    chamfer2_part_16_edges = [part_1.edges().sort_by_distance(p)[0] for p in [
        (37.6, 0, 0),
    ]]
    chamfer2_part_16_side = [part_1.faces().sort_by_distance(p)[0] for p in [
        (38.1, 0, 0),
    ]]
    chamfer(chamfer2_part_16_edges, length=CHAMFER2_PART_16_SIZE, length2=CHAMFER2_PART_16_SIZE2, reference=chamfer2_part_16_side[0])

    # Fillet2
    fillet2_edges = [part_1.edges().sort_by_distance(p)[0] for p in [
        (9.66, 0.5, 0),
        (17.28, 0.5, 0),
        (22.36, 0.5, 0),
        (27.44, 0.5, 0),
        (29.98, 0.5, 0),
        (-0.5, 0.5, 0),
        (2.04, 0.5, 0),
        (4.58, 0.5, 0),
        (7.12, 0.5, 0),
        (12.2, 0.5, 0),
        (14.74, 0.5, 0),
        (19.82, 0.5, 0),
        (24.9, 0.5, 0),
        (32.52, 0.5, 0),
        (35.06, 0.5, 0),
        (37.6, 0.5, 0),
    ]]
    fillet(fillet2_edges, radius=FILLET2_R)

    # Sketch3 → Cut-Extrude1 (cut, two sides)
    with BuildSketch(Plane.XY.offset(1.27)) as cut_extrude1_sk:
        with Locations((20.32, 5.75)):
            Rectangle(SKETCH3_W, SKETCH3_H)
    extrude(amount=CUT_EXTRUDE1_DEPTH, mode=Mode.SUBTRACT)
    extrude(cut_extrude1_sk.sketch, amount=-CUT_EXTRUDE1_DEPTH_BACK, mode=Mode.SUBTRACT)


solid = part_1.part
